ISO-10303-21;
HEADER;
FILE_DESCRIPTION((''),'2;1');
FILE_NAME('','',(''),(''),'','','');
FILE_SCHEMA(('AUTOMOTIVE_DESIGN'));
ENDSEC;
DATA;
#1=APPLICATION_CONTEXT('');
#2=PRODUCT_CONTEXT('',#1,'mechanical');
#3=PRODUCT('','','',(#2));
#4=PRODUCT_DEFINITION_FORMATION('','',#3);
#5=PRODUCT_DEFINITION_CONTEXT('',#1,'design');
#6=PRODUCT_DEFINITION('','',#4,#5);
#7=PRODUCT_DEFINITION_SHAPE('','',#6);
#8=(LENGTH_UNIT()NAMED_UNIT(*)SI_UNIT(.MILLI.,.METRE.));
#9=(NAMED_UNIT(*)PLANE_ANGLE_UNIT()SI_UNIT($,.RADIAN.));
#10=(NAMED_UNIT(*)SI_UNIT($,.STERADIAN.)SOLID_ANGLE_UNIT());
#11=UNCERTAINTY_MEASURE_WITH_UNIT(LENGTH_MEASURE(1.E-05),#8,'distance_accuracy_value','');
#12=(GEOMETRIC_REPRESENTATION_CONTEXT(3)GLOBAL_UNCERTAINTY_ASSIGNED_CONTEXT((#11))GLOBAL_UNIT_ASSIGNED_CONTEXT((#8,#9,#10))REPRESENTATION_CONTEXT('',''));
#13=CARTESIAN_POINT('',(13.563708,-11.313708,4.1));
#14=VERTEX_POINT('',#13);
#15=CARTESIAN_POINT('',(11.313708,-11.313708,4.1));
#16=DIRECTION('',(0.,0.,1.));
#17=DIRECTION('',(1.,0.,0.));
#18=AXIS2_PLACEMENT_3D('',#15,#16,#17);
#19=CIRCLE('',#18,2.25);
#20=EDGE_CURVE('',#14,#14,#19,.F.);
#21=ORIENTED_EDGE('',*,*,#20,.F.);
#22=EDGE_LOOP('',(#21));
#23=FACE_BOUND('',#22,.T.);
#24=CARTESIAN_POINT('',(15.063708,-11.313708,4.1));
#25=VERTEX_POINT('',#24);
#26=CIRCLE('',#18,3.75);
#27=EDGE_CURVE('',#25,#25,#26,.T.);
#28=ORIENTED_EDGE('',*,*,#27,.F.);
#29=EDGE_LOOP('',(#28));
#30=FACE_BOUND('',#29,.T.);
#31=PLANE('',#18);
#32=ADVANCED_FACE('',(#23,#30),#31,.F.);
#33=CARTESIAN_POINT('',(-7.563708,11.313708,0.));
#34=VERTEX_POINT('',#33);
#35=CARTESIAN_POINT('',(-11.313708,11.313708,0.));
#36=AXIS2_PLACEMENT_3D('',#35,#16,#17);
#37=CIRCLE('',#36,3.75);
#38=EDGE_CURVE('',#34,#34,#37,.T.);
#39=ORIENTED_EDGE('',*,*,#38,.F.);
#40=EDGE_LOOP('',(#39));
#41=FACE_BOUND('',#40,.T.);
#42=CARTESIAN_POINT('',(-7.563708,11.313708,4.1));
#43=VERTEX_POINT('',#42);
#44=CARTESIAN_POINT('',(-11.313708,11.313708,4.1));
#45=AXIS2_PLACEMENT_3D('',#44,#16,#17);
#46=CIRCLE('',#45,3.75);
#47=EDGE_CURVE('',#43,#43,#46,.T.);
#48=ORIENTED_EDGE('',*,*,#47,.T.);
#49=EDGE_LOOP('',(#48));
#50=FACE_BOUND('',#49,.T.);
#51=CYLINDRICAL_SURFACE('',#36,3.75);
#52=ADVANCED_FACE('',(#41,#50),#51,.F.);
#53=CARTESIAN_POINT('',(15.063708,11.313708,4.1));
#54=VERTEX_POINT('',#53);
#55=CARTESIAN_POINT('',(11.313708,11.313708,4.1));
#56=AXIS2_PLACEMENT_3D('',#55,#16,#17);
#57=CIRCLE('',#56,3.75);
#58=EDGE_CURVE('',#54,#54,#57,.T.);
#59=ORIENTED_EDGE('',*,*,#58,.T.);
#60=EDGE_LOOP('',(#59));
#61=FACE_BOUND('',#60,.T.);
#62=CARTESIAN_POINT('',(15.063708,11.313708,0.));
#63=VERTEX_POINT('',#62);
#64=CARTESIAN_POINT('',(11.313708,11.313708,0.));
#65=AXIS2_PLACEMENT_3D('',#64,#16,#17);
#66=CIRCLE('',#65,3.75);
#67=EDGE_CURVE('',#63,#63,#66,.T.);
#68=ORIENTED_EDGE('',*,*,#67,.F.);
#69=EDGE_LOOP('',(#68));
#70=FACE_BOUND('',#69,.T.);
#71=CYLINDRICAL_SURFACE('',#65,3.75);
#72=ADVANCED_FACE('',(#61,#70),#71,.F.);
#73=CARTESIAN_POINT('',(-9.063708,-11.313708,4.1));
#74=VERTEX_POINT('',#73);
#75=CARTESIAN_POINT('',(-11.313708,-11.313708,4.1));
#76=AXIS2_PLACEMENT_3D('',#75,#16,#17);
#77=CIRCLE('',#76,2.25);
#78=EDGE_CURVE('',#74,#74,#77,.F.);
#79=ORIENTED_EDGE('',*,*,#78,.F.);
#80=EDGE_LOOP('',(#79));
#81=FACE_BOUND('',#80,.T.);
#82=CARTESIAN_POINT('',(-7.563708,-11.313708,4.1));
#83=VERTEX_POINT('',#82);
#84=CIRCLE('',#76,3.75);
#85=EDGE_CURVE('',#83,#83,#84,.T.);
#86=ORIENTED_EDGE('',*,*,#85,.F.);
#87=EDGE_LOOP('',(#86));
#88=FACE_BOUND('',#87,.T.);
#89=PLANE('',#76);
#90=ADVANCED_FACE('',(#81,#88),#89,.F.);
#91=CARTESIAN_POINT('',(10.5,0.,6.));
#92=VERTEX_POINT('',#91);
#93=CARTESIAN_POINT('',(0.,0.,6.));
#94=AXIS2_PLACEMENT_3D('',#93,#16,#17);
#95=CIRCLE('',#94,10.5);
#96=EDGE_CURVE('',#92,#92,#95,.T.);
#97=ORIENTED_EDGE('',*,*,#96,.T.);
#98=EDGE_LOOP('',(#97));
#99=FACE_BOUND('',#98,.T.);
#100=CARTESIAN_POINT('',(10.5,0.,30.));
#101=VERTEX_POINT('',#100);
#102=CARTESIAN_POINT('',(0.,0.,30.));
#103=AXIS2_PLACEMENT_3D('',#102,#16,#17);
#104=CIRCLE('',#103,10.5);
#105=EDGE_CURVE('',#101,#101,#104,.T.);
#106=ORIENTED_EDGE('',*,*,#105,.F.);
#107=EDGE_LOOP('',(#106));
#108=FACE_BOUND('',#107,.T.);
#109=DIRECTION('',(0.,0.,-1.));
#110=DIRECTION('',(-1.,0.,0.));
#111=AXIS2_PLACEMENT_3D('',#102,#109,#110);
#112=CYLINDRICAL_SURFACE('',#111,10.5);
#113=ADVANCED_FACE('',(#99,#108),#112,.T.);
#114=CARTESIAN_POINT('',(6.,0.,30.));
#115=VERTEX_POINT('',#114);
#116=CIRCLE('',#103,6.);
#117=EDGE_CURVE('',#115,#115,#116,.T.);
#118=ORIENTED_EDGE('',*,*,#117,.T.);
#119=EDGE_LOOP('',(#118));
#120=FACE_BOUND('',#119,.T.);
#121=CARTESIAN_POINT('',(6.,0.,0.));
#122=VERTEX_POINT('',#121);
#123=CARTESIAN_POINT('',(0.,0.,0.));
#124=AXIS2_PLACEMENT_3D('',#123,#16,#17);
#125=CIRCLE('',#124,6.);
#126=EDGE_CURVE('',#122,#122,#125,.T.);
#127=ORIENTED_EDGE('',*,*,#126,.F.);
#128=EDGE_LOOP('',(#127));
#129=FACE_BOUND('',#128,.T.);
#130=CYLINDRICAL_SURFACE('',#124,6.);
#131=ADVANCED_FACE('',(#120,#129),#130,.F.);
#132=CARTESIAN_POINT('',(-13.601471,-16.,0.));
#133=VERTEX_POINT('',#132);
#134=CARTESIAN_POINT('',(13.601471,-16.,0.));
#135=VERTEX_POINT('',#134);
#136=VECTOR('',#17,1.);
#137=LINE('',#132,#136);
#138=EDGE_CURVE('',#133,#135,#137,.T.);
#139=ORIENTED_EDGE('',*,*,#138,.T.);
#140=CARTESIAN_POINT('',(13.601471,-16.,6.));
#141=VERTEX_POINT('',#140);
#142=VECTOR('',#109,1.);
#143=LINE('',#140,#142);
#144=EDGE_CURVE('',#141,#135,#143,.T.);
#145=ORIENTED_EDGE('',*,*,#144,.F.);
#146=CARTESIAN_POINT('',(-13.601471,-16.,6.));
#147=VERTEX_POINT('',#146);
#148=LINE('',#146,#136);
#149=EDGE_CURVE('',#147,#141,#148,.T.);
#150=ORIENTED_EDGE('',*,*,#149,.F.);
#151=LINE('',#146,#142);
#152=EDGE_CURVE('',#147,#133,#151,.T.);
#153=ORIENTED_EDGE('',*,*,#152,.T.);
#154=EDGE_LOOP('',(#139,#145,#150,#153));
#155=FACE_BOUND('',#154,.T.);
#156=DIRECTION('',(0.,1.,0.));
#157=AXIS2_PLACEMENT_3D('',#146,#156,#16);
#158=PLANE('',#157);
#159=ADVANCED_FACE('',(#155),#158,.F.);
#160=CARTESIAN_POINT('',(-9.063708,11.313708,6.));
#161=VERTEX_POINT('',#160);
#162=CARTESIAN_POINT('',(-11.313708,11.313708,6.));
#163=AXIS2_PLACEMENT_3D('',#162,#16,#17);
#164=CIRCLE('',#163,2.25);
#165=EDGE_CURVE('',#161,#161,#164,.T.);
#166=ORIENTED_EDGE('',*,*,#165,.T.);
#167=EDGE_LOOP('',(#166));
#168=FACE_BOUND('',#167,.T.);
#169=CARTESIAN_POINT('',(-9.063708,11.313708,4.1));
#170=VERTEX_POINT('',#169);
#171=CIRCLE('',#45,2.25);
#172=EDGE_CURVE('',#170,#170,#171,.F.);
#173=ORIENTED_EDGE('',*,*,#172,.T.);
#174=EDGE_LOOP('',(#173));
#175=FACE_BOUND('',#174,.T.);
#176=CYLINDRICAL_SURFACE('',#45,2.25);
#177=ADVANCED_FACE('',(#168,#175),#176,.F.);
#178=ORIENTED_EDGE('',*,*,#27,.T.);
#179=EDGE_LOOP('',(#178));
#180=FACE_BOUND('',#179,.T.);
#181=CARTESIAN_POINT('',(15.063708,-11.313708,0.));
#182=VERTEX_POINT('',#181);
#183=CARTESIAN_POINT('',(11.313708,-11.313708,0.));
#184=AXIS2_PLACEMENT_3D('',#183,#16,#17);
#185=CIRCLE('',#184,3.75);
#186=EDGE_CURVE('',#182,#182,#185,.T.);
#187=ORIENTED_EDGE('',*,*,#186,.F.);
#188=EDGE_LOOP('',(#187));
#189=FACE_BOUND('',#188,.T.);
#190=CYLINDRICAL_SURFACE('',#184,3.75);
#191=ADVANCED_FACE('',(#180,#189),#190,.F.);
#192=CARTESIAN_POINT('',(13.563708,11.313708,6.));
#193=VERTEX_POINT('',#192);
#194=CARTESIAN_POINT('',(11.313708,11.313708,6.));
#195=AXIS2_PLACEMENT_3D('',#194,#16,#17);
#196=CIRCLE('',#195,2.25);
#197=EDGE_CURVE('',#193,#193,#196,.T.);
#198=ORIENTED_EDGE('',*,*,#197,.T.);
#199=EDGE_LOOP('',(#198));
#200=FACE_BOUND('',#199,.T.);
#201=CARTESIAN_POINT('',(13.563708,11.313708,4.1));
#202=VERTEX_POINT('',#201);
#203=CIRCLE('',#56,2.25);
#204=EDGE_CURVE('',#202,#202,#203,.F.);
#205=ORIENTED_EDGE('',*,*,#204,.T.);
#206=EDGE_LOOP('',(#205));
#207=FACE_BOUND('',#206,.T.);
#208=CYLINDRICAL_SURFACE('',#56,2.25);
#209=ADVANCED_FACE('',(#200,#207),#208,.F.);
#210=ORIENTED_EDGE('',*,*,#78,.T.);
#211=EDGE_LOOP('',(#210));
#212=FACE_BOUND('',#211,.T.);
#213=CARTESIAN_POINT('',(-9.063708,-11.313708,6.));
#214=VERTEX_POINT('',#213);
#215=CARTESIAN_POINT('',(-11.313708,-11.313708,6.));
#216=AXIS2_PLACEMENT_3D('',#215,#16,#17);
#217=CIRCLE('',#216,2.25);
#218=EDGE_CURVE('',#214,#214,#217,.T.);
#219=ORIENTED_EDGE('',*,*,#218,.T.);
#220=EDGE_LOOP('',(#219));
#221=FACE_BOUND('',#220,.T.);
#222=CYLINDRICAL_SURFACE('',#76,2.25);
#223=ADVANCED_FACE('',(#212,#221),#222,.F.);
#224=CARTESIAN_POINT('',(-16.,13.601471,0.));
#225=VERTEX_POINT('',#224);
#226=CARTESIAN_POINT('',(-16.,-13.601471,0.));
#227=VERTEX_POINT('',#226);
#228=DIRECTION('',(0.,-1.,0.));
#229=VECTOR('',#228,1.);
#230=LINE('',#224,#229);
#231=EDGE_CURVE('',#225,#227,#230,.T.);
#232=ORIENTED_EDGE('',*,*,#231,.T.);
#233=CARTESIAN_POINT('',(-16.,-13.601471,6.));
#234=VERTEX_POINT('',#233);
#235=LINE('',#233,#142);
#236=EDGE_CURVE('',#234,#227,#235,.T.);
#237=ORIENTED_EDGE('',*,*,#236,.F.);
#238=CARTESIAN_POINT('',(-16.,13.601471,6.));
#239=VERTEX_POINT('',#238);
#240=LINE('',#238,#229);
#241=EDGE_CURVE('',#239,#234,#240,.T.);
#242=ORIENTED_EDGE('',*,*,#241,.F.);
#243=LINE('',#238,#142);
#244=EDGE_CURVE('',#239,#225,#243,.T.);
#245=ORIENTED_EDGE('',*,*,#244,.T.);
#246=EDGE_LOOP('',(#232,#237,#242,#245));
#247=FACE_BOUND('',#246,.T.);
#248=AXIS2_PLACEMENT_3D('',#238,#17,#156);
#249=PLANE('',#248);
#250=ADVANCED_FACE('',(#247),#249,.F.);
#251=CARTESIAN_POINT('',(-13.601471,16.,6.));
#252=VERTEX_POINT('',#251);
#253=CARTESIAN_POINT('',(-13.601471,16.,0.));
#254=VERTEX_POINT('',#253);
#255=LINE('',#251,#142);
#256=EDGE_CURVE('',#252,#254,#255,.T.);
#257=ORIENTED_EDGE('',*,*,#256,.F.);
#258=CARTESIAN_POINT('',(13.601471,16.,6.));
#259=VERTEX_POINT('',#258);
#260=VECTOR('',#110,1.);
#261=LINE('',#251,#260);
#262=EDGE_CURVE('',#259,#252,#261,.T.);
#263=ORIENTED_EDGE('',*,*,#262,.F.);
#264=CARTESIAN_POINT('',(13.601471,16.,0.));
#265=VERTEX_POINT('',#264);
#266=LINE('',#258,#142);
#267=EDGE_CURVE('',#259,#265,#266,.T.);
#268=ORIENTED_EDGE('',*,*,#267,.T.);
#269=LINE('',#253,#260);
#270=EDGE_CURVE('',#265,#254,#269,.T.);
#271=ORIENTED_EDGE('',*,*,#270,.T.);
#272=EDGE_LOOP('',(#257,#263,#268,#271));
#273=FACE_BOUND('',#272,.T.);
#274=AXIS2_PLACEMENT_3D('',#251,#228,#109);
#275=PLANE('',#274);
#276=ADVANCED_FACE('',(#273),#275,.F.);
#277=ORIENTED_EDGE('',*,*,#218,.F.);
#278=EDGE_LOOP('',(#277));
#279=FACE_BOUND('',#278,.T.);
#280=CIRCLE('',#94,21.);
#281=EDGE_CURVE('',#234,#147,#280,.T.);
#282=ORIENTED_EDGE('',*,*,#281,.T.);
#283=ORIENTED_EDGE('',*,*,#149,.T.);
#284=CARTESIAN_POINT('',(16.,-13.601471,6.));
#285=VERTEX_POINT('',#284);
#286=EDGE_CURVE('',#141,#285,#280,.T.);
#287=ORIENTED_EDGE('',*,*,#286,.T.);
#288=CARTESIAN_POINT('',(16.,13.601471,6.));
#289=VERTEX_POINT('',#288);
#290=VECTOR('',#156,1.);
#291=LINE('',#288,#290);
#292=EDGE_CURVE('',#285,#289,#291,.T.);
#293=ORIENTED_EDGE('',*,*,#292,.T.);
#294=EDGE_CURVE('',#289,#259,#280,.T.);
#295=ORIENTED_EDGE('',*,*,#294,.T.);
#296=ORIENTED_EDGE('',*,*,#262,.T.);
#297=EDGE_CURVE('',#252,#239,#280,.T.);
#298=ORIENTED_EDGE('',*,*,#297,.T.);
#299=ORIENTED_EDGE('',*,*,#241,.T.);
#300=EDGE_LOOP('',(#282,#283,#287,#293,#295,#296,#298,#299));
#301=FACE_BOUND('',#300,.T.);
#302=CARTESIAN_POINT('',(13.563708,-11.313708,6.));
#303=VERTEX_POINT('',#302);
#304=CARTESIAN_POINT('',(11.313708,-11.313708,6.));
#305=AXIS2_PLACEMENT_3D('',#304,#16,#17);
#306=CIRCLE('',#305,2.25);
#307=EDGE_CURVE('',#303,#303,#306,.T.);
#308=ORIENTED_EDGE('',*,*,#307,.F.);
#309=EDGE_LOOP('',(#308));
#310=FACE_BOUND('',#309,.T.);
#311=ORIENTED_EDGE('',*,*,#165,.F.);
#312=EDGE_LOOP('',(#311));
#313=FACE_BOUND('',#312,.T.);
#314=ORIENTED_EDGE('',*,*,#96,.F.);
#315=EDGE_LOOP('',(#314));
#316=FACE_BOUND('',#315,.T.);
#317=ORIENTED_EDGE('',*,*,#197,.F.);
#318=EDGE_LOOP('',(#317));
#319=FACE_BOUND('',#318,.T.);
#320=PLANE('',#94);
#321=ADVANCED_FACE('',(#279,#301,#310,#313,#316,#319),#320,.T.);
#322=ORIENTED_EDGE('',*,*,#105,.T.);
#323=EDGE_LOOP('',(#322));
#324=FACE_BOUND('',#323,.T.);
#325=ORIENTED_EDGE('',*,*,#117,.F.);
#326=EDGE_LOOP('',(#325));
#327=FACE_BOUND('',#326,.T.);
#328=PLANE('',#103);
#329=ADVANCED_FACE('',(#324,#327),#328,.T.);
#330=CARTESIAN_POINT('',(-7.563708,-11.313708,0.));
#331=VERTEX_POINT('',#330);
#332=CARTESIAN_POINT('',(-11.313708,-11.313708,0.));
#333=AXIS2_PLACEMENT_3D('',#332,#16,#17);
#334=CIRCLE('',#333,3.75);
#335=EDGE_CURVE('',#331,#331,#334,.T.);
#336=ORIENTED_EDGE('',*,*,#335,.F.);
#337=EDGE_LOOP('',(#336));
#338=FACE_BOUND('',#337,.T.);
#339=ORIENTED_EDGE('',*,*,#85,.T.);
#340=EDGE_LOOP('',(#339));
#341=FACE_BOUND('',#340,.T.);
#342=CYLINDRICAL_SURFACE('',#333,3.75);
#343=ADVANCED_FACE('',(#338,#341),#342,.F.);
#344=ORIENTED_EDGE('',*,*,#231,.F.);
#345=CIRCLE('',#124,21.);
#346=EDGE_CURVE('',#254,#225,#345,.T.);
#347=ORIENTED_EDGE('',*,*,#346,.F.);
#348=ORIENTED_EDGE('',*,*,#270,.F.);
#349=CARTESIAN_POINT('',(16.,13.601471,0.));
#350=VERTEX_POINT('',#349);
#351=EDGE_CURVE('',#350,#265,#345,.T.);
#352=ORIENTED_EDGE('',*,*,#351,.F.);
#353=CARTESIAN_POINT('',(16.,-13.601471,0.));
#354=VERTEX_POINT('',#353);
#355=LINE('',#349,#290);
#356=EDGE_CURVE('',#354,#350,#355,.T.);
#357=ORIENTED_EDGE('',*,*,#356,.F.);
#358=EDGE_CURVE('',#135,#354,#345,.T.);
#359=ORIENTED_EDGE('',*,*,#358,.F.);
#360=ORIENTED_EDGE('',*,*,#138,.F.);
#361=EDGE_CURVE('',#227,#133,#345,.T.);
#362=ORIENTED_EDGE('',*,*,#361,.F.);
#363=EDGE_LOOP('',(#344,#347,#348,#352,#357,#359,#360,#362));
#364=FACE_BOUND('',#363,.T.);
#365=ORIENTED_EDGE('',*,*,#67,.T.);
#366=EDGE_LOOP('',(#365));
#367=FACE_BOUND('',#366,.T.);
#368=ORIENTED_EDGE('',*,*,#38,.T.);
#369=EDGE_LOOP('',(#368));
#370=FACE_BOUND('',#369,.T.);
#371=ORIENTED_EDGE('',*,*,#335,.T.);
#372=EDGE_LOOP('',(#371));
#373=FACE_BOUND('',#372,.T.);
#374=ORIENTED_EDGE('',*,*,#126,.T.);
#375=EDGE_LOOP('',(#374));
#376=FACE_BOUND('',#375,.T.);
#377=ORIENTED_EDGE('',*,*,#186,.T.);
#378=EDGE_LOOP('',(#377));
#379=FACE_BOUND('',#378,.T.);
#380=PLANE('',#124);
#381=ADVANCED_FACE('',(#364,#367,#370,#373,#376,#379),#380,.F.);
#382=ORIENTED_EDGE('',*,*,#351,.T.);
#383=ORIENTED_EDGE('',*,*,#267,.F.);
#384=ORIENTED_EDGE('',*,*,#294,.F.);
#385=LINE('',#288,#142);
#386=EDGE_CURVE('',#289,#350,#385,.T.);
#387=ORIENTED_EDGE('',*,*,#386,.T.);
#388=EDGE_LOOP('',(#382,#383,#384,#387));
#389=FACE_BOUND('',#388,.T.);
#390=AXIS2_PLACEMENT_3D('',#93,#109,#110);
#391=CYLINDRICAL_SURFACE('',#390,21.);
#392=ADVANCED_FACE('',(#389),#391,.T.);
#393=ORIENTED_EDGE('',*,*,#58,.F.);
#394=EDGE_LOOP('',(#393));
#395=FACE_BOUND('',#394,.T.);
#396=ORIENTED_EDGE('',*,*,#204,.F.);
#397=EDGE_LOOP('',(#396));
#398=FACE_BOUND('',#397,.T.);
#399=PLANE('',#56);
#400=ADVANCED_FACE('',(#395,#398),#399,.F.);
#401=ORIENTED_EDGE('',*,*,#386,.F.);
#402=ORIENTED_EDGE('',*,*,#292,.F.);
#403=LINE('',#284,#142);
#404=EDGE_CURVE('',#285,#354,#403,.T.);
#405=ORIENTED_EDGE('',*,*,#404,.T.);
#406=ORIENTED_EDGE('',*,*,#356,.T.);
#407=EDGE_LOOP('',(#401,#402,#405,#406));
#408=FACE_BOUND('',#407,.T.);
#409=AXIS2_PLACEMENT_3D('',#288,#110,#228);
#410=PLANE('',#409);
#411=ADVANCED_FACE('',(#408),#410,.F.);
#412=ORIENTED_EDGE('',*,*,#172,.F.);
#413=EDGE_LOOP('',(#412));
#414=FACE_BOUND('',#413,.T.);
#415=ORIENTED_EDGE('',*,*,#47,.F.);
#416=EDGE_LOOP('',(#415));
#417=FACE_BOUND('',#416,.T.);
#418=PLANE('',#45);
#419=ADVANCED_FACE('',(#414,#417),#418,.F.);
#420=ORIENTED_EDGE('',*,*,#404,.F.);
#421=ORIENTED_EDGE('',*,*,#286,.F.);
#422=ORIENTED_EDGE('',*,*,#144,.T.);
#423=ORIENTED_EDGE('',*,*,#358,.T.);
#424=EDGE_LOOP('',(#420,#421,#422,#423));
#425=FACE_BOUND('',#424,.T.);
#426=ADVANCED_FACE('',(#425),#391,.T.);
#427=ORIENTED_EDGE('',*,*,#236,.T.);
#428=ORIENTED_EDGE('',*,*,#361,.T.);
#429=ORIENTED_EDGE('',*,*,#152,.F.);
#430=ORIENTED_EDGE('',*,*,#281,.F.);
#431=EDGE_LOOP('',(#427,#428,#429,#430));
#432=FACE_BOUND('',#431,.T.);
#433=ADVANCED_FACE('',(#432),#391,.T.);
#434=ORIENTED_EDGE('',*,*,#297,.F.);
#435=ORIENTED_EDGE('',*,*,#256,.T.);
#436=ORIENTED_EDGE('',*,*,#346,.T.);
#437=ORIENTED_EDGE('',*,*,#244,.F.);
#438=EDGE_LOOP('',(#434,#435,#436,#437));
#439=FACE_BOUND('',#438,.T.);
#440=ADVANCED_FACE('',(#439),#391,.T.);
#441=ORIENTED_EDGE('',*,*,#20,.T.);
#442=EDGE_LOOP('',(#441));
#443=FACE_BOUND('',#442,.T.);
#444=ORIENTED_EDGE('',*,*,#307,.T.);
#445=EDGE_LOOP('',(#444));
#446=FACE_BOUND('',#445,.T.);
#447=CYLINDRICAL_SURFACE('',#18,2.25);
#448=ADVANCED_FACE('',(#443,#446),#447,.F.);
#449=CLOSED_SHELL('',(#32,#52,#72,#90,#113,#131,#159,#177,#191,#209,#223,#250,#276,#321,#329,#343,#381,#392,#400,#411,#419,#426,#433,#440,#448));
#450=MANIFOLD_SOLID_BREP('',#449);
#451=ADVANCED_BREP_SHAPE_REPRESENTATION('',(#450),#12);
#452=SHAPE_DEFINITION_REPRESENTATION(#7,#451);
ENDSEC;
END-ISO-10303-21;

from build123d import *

# Parameters (mm, degrees)
EXTRUDE_1_DEPTH     = 6
SKETCH_2_R          = 10.5
EXTRUDE_2_DEPTH     = 24
SKETCH_3_R          = 6
CUT_EXTRUDE_1_DEPTH = 30
CUT_EXTRUDE_2_DEPTH = 1.9
SKETCH_5_R          = 3.75
CUT_EXTRUDE_3_DEPTH = 4.1


with BuildPart() as part:
    # 草图1 → 凸台-拉伸1 (new body)
    with BuildSketch(Plane.XY):
        with BuildLine():
            Line((-13.601470509, 16), (13.601470509, 16))
            ThreePointArc((13.601470509, 16), (14.849242405, 14.849242405), (16, 13.601470509))
            Line((16, 13.601470509), (16, -13.601470509))
            ThreePointArc((16, -13.601470509), (14.849242405, -14.849242405), (13.601470509, -16))
            Line((13.601470509, -16), (-13.601470509, -16))
            ThreePointArc((-13.601470509, -16), (-14.849242405, -14.849242405), (-16, -13.601470509))
            Line((-16, -13.601470509), (-16, 13.601470509))
            ThreePointArc((-16, 13.601470509), (-14.849242405, 14.849242405), (-13.601470509, 16))
        make_face()
    extrude(amount=EXTRUDE_1_DEPTH)

    # 草图2 → 凸台-拉伸2 (add)
    with BuildSketch(Plane.XY.offset(6)):
        Circle(SKETCH_2_R)
    extrude(amount=EXTRUDE_2_DEPTH)

    # 草图3 → 切除-拉伸1 (cut)
    with BuildSketch(Plane.XY.offset(30)):
        Circle(SKETCH_3_R)
    extrude(amount=-CUT_EXTRUDE_1_DEPTH, mode=Mode.SUBTRACT)

    # 草图4 → 切除-拉伸2 (cut)
    with BuildSketch(Plane.XY.offset(6)):
        with BuildLine():
            ThreePointArc((-12.788894575, 9.614789418), (-11.234557947, 9.06510111), (-9.722718241, 9.722718241))
            Line((-9.722718241, 9.722718241), (-11.313708499, 11.313708499))
            ThreePointArc((-11.313708499, 11.313708499), (-12.081202351, 10.490212093), (-12.788894575, 9.614789418))
        make_face()
        with BuildLine():
            Line((-11.313708499, 11.313708499), (-9.722718241, 9.722718241))
            ThreePointArc((-9.722718241, 9.722718241), (-9.234979551, 10.452670776), (-9.063708499, 11.313708499))
            ThreePointArc((-9.063708499, 11.313708499), (-9.205976551, 12.101087718), (-9.614789418, 12.788894575))
            ThreePointArc((-9.614789418, 12.788894575), (-10.490212093, 12.081202351), (-11.313708499, 11.313708499))
        make_face()
        with BuildLine():
            ThreePointArc((-12.788894575, 9.614789418), (-12.081202351, 10.490212093), (-11.313708499, 11.313708499))
            Line((-11.313708499, 11.313708499), (-12.904698757, 12.904698757))
            ThreePointArc((-12.904698757, 12.904698757), (-13.562315888, 11.234557947), (-12.788894575, 9.614789418))
        make_face()
        with BuildLine():
            Line((-12.904698757, 12.904698757), (-11.313708499, 11.313708499))
            ThreePointArc((-11.313708499, 11.313708499), (-10.490212093, 12.081202351), (-9.614789418, 12.788894575))
            ThreePointArc((-9.614789418, 12.788894575), (-11.234557947, 13.562315888), (-12.904698757, 12.904698757))
        make_face()
        with BuildLine():
            ThreePointArc((9.614789418, 12.788894575), (9.06510111, 11.234557947), (9.722718241, 9.722718241))
            Line((9.722718241, 9.722718241), (11.313708499, 11.313708499))
            ThreePointArc((11.313708499, 11.313708499), (10.490212093, 12.081202351), (9.614789418, 12.788894575))
        make_face()
        with BuildLine():
            Line((11.313708499, 11.313708499), (9.722718241, 9.722718241))
            ThreePointArc((9.722718241, 9.722718241), (11.234557947, 9.06510111), (12.788894575, 9.614789418))
            ThreePointArc((12.788894575, 9.614789418), (12.081202351, 10.490212093), (11.313708499, 11.313708499))
        make_face()
        with BuildLine():
            ThreePointArc((9.614789418, 12.788894575), (10.490212093, 12.081202351), (11.313708499, 11.313708499))
            Line((11.313708499, 11.313708499), (12.904698757, 12.904698757))
            ThreePointArc((12.904698757, 12.904698757), (11.234557947, 13.562315888), (9.614789418, 12.788894575))
        make_face()
        with BuildLine():
            Line((12.904698757, 12.904698757), (11.313708499, 11.313708499))
            ThreePointArc((11.313708499, 11.313708499), (12.081202351, 10.490212093), (12.788894575, 9.614789418))
            ThreePointArc((12.788894575, 9.614789418), (13.360861238, 10.380078131), (13.563708499, 11.313708499))
            ThreePointArc((13.563708499, 11.313708499), (13.392437447, 12.174746222), (12.904698757, 12.904698757))
        make_face()
        with BuildLine():
            ThreePointArc((12.788894575, -9.614789418), (11.234557947, -9.06510111), (9.722718241, -9.722718241))
            Line((9.722718241, -9.722718241), (11.313708499, -11.313708499))
            ThreePointArc((11.313708499, -11.313708499), (12.081202351, -10.490212093), (12.788894575, -9.614789418))
        make_face()
        with BuildLine():
            Line((11.313708499, -11.313708499), (9.722718241, -9.722718241))
            ThreePointArc((9.722718241, -9.722718241), (9.06510111, -11.234557947), (9.614789418, -12.788894575))
            ThreePointArc((9.614789418, -12.788894575), (10.490212093, -12.081202351), (11.313708499, -11.313708499))
        make_face()
        with BuildLine():
            ThreePointArc((12.788894575, -9.614789418), (12.081202351, -10.490212093), (11.313708499, -11.313708499))
            Line((11.313708499, -11.313708499), (12.904698757, -12.904698757))
            ThreePointArc((12.904698757, -12.904698757), (13.392437447, -12.174746222), (13.563708499, -11.313708499))
            ThreePointArc((13.563708499, -11.313708499), (13.360861238, -10.380078131), (12.788894575, -9.614789418))
        make_face()
        with BuildLine():
            Line((12.904698757, -12.904698757), (11.313708499, -11.313708499))
            ThreePointArc((11.313708499, -11.313708499), (10.490212093, -12.081202351), (9.614789418, -12.788894575))
            ThreePointArc((9.614789418, -12.788894575), (11.234557947, -13.562315888), (12.904698757, -12.904698757))
        make_face()
        with BuildLine():
            ThreePointArc((-9.063708499, -11.313708499), (-9.234979551, -10.452670776), (-9.722718241, -9.722718241))
            Line((-9.722718241, -9.722718241), (-11.313708499, -11.313708499))
            ThreePointArc((-11.313708499, -11.313708499), (-10.490212093, -12.081202351), (-9.614789418, -12.788894575))
            ThreePointArc((-9.614789418, -12.788894575), (-9.205976551, -12.101087718), (-9.063708499, -11.313708499))
        make_face()
        with BuildLine():
            Line((-11.313708499, -11.313708499), (-9.722718241, -9.722718241))
            ThreePointArc((-9.722718241, -9.722718241), (-11.234557947, -9.06510111), (-12.788894575, -9.614789418))
            ThreePointArc((-12.788894575, -9.614789418), (-12.081202351, -10.490212093), (-11.313708499, -11.313708499))
        make_face()
        with BuildLine():
            ThreePointArc((-9.614789418, -12.788894575), (-10.490212093, -12.081202351), (-11.313708499, -11.313708499))
            Line((-11.313708499, -11.313708499), (-12.904698757, -12.904698757))
            ThreePointArc((-12.904698757, -12.904698757), (-11.234557947, -13.562315888), (-9.614789418, -12.788894575))
        make_face()
        with BuildLine():
            Line((-12.904698757, -12.904698757), (-11.313708499, -11.313708499))
            ThreePointArc((-11.313708499, -11.313708499), (-12.081202351, -10.490212093), (-12.788894575, -9.614789418))
            ThreePointArc((-12.788894575, -9.614789418), (-13.562315888, -11.234557947), (-12.904698757, -12.904698757))
        make_face()
    extrude(amount=-CUT_EXTRUDE_2_DEPTH, mode=Mode.SUBTRACT)

    # 草图5 → 切除-拉伸3 (cut)
    with BuildSketch(Plane.XY.offset(4.1)):
        with Locations((-11.313708499, 11.313708499)):
            Circle(SKETCH_5_R)
        with Locations((11.313708499, 11.313708499)):
            Circle(SKETCH_5_R)
        with Locations((11.313708499, -11.313708499)):
            Circle(SKETCH_5_R)
        with Locations((-11.313708499, -11.313708499)):
            Circle(SKETCH_5_R)
    extrude(amount=-CUT_EXTRUDE_3_DEPTH, mode=Mode.SUBTRACT)


solid = part.part
